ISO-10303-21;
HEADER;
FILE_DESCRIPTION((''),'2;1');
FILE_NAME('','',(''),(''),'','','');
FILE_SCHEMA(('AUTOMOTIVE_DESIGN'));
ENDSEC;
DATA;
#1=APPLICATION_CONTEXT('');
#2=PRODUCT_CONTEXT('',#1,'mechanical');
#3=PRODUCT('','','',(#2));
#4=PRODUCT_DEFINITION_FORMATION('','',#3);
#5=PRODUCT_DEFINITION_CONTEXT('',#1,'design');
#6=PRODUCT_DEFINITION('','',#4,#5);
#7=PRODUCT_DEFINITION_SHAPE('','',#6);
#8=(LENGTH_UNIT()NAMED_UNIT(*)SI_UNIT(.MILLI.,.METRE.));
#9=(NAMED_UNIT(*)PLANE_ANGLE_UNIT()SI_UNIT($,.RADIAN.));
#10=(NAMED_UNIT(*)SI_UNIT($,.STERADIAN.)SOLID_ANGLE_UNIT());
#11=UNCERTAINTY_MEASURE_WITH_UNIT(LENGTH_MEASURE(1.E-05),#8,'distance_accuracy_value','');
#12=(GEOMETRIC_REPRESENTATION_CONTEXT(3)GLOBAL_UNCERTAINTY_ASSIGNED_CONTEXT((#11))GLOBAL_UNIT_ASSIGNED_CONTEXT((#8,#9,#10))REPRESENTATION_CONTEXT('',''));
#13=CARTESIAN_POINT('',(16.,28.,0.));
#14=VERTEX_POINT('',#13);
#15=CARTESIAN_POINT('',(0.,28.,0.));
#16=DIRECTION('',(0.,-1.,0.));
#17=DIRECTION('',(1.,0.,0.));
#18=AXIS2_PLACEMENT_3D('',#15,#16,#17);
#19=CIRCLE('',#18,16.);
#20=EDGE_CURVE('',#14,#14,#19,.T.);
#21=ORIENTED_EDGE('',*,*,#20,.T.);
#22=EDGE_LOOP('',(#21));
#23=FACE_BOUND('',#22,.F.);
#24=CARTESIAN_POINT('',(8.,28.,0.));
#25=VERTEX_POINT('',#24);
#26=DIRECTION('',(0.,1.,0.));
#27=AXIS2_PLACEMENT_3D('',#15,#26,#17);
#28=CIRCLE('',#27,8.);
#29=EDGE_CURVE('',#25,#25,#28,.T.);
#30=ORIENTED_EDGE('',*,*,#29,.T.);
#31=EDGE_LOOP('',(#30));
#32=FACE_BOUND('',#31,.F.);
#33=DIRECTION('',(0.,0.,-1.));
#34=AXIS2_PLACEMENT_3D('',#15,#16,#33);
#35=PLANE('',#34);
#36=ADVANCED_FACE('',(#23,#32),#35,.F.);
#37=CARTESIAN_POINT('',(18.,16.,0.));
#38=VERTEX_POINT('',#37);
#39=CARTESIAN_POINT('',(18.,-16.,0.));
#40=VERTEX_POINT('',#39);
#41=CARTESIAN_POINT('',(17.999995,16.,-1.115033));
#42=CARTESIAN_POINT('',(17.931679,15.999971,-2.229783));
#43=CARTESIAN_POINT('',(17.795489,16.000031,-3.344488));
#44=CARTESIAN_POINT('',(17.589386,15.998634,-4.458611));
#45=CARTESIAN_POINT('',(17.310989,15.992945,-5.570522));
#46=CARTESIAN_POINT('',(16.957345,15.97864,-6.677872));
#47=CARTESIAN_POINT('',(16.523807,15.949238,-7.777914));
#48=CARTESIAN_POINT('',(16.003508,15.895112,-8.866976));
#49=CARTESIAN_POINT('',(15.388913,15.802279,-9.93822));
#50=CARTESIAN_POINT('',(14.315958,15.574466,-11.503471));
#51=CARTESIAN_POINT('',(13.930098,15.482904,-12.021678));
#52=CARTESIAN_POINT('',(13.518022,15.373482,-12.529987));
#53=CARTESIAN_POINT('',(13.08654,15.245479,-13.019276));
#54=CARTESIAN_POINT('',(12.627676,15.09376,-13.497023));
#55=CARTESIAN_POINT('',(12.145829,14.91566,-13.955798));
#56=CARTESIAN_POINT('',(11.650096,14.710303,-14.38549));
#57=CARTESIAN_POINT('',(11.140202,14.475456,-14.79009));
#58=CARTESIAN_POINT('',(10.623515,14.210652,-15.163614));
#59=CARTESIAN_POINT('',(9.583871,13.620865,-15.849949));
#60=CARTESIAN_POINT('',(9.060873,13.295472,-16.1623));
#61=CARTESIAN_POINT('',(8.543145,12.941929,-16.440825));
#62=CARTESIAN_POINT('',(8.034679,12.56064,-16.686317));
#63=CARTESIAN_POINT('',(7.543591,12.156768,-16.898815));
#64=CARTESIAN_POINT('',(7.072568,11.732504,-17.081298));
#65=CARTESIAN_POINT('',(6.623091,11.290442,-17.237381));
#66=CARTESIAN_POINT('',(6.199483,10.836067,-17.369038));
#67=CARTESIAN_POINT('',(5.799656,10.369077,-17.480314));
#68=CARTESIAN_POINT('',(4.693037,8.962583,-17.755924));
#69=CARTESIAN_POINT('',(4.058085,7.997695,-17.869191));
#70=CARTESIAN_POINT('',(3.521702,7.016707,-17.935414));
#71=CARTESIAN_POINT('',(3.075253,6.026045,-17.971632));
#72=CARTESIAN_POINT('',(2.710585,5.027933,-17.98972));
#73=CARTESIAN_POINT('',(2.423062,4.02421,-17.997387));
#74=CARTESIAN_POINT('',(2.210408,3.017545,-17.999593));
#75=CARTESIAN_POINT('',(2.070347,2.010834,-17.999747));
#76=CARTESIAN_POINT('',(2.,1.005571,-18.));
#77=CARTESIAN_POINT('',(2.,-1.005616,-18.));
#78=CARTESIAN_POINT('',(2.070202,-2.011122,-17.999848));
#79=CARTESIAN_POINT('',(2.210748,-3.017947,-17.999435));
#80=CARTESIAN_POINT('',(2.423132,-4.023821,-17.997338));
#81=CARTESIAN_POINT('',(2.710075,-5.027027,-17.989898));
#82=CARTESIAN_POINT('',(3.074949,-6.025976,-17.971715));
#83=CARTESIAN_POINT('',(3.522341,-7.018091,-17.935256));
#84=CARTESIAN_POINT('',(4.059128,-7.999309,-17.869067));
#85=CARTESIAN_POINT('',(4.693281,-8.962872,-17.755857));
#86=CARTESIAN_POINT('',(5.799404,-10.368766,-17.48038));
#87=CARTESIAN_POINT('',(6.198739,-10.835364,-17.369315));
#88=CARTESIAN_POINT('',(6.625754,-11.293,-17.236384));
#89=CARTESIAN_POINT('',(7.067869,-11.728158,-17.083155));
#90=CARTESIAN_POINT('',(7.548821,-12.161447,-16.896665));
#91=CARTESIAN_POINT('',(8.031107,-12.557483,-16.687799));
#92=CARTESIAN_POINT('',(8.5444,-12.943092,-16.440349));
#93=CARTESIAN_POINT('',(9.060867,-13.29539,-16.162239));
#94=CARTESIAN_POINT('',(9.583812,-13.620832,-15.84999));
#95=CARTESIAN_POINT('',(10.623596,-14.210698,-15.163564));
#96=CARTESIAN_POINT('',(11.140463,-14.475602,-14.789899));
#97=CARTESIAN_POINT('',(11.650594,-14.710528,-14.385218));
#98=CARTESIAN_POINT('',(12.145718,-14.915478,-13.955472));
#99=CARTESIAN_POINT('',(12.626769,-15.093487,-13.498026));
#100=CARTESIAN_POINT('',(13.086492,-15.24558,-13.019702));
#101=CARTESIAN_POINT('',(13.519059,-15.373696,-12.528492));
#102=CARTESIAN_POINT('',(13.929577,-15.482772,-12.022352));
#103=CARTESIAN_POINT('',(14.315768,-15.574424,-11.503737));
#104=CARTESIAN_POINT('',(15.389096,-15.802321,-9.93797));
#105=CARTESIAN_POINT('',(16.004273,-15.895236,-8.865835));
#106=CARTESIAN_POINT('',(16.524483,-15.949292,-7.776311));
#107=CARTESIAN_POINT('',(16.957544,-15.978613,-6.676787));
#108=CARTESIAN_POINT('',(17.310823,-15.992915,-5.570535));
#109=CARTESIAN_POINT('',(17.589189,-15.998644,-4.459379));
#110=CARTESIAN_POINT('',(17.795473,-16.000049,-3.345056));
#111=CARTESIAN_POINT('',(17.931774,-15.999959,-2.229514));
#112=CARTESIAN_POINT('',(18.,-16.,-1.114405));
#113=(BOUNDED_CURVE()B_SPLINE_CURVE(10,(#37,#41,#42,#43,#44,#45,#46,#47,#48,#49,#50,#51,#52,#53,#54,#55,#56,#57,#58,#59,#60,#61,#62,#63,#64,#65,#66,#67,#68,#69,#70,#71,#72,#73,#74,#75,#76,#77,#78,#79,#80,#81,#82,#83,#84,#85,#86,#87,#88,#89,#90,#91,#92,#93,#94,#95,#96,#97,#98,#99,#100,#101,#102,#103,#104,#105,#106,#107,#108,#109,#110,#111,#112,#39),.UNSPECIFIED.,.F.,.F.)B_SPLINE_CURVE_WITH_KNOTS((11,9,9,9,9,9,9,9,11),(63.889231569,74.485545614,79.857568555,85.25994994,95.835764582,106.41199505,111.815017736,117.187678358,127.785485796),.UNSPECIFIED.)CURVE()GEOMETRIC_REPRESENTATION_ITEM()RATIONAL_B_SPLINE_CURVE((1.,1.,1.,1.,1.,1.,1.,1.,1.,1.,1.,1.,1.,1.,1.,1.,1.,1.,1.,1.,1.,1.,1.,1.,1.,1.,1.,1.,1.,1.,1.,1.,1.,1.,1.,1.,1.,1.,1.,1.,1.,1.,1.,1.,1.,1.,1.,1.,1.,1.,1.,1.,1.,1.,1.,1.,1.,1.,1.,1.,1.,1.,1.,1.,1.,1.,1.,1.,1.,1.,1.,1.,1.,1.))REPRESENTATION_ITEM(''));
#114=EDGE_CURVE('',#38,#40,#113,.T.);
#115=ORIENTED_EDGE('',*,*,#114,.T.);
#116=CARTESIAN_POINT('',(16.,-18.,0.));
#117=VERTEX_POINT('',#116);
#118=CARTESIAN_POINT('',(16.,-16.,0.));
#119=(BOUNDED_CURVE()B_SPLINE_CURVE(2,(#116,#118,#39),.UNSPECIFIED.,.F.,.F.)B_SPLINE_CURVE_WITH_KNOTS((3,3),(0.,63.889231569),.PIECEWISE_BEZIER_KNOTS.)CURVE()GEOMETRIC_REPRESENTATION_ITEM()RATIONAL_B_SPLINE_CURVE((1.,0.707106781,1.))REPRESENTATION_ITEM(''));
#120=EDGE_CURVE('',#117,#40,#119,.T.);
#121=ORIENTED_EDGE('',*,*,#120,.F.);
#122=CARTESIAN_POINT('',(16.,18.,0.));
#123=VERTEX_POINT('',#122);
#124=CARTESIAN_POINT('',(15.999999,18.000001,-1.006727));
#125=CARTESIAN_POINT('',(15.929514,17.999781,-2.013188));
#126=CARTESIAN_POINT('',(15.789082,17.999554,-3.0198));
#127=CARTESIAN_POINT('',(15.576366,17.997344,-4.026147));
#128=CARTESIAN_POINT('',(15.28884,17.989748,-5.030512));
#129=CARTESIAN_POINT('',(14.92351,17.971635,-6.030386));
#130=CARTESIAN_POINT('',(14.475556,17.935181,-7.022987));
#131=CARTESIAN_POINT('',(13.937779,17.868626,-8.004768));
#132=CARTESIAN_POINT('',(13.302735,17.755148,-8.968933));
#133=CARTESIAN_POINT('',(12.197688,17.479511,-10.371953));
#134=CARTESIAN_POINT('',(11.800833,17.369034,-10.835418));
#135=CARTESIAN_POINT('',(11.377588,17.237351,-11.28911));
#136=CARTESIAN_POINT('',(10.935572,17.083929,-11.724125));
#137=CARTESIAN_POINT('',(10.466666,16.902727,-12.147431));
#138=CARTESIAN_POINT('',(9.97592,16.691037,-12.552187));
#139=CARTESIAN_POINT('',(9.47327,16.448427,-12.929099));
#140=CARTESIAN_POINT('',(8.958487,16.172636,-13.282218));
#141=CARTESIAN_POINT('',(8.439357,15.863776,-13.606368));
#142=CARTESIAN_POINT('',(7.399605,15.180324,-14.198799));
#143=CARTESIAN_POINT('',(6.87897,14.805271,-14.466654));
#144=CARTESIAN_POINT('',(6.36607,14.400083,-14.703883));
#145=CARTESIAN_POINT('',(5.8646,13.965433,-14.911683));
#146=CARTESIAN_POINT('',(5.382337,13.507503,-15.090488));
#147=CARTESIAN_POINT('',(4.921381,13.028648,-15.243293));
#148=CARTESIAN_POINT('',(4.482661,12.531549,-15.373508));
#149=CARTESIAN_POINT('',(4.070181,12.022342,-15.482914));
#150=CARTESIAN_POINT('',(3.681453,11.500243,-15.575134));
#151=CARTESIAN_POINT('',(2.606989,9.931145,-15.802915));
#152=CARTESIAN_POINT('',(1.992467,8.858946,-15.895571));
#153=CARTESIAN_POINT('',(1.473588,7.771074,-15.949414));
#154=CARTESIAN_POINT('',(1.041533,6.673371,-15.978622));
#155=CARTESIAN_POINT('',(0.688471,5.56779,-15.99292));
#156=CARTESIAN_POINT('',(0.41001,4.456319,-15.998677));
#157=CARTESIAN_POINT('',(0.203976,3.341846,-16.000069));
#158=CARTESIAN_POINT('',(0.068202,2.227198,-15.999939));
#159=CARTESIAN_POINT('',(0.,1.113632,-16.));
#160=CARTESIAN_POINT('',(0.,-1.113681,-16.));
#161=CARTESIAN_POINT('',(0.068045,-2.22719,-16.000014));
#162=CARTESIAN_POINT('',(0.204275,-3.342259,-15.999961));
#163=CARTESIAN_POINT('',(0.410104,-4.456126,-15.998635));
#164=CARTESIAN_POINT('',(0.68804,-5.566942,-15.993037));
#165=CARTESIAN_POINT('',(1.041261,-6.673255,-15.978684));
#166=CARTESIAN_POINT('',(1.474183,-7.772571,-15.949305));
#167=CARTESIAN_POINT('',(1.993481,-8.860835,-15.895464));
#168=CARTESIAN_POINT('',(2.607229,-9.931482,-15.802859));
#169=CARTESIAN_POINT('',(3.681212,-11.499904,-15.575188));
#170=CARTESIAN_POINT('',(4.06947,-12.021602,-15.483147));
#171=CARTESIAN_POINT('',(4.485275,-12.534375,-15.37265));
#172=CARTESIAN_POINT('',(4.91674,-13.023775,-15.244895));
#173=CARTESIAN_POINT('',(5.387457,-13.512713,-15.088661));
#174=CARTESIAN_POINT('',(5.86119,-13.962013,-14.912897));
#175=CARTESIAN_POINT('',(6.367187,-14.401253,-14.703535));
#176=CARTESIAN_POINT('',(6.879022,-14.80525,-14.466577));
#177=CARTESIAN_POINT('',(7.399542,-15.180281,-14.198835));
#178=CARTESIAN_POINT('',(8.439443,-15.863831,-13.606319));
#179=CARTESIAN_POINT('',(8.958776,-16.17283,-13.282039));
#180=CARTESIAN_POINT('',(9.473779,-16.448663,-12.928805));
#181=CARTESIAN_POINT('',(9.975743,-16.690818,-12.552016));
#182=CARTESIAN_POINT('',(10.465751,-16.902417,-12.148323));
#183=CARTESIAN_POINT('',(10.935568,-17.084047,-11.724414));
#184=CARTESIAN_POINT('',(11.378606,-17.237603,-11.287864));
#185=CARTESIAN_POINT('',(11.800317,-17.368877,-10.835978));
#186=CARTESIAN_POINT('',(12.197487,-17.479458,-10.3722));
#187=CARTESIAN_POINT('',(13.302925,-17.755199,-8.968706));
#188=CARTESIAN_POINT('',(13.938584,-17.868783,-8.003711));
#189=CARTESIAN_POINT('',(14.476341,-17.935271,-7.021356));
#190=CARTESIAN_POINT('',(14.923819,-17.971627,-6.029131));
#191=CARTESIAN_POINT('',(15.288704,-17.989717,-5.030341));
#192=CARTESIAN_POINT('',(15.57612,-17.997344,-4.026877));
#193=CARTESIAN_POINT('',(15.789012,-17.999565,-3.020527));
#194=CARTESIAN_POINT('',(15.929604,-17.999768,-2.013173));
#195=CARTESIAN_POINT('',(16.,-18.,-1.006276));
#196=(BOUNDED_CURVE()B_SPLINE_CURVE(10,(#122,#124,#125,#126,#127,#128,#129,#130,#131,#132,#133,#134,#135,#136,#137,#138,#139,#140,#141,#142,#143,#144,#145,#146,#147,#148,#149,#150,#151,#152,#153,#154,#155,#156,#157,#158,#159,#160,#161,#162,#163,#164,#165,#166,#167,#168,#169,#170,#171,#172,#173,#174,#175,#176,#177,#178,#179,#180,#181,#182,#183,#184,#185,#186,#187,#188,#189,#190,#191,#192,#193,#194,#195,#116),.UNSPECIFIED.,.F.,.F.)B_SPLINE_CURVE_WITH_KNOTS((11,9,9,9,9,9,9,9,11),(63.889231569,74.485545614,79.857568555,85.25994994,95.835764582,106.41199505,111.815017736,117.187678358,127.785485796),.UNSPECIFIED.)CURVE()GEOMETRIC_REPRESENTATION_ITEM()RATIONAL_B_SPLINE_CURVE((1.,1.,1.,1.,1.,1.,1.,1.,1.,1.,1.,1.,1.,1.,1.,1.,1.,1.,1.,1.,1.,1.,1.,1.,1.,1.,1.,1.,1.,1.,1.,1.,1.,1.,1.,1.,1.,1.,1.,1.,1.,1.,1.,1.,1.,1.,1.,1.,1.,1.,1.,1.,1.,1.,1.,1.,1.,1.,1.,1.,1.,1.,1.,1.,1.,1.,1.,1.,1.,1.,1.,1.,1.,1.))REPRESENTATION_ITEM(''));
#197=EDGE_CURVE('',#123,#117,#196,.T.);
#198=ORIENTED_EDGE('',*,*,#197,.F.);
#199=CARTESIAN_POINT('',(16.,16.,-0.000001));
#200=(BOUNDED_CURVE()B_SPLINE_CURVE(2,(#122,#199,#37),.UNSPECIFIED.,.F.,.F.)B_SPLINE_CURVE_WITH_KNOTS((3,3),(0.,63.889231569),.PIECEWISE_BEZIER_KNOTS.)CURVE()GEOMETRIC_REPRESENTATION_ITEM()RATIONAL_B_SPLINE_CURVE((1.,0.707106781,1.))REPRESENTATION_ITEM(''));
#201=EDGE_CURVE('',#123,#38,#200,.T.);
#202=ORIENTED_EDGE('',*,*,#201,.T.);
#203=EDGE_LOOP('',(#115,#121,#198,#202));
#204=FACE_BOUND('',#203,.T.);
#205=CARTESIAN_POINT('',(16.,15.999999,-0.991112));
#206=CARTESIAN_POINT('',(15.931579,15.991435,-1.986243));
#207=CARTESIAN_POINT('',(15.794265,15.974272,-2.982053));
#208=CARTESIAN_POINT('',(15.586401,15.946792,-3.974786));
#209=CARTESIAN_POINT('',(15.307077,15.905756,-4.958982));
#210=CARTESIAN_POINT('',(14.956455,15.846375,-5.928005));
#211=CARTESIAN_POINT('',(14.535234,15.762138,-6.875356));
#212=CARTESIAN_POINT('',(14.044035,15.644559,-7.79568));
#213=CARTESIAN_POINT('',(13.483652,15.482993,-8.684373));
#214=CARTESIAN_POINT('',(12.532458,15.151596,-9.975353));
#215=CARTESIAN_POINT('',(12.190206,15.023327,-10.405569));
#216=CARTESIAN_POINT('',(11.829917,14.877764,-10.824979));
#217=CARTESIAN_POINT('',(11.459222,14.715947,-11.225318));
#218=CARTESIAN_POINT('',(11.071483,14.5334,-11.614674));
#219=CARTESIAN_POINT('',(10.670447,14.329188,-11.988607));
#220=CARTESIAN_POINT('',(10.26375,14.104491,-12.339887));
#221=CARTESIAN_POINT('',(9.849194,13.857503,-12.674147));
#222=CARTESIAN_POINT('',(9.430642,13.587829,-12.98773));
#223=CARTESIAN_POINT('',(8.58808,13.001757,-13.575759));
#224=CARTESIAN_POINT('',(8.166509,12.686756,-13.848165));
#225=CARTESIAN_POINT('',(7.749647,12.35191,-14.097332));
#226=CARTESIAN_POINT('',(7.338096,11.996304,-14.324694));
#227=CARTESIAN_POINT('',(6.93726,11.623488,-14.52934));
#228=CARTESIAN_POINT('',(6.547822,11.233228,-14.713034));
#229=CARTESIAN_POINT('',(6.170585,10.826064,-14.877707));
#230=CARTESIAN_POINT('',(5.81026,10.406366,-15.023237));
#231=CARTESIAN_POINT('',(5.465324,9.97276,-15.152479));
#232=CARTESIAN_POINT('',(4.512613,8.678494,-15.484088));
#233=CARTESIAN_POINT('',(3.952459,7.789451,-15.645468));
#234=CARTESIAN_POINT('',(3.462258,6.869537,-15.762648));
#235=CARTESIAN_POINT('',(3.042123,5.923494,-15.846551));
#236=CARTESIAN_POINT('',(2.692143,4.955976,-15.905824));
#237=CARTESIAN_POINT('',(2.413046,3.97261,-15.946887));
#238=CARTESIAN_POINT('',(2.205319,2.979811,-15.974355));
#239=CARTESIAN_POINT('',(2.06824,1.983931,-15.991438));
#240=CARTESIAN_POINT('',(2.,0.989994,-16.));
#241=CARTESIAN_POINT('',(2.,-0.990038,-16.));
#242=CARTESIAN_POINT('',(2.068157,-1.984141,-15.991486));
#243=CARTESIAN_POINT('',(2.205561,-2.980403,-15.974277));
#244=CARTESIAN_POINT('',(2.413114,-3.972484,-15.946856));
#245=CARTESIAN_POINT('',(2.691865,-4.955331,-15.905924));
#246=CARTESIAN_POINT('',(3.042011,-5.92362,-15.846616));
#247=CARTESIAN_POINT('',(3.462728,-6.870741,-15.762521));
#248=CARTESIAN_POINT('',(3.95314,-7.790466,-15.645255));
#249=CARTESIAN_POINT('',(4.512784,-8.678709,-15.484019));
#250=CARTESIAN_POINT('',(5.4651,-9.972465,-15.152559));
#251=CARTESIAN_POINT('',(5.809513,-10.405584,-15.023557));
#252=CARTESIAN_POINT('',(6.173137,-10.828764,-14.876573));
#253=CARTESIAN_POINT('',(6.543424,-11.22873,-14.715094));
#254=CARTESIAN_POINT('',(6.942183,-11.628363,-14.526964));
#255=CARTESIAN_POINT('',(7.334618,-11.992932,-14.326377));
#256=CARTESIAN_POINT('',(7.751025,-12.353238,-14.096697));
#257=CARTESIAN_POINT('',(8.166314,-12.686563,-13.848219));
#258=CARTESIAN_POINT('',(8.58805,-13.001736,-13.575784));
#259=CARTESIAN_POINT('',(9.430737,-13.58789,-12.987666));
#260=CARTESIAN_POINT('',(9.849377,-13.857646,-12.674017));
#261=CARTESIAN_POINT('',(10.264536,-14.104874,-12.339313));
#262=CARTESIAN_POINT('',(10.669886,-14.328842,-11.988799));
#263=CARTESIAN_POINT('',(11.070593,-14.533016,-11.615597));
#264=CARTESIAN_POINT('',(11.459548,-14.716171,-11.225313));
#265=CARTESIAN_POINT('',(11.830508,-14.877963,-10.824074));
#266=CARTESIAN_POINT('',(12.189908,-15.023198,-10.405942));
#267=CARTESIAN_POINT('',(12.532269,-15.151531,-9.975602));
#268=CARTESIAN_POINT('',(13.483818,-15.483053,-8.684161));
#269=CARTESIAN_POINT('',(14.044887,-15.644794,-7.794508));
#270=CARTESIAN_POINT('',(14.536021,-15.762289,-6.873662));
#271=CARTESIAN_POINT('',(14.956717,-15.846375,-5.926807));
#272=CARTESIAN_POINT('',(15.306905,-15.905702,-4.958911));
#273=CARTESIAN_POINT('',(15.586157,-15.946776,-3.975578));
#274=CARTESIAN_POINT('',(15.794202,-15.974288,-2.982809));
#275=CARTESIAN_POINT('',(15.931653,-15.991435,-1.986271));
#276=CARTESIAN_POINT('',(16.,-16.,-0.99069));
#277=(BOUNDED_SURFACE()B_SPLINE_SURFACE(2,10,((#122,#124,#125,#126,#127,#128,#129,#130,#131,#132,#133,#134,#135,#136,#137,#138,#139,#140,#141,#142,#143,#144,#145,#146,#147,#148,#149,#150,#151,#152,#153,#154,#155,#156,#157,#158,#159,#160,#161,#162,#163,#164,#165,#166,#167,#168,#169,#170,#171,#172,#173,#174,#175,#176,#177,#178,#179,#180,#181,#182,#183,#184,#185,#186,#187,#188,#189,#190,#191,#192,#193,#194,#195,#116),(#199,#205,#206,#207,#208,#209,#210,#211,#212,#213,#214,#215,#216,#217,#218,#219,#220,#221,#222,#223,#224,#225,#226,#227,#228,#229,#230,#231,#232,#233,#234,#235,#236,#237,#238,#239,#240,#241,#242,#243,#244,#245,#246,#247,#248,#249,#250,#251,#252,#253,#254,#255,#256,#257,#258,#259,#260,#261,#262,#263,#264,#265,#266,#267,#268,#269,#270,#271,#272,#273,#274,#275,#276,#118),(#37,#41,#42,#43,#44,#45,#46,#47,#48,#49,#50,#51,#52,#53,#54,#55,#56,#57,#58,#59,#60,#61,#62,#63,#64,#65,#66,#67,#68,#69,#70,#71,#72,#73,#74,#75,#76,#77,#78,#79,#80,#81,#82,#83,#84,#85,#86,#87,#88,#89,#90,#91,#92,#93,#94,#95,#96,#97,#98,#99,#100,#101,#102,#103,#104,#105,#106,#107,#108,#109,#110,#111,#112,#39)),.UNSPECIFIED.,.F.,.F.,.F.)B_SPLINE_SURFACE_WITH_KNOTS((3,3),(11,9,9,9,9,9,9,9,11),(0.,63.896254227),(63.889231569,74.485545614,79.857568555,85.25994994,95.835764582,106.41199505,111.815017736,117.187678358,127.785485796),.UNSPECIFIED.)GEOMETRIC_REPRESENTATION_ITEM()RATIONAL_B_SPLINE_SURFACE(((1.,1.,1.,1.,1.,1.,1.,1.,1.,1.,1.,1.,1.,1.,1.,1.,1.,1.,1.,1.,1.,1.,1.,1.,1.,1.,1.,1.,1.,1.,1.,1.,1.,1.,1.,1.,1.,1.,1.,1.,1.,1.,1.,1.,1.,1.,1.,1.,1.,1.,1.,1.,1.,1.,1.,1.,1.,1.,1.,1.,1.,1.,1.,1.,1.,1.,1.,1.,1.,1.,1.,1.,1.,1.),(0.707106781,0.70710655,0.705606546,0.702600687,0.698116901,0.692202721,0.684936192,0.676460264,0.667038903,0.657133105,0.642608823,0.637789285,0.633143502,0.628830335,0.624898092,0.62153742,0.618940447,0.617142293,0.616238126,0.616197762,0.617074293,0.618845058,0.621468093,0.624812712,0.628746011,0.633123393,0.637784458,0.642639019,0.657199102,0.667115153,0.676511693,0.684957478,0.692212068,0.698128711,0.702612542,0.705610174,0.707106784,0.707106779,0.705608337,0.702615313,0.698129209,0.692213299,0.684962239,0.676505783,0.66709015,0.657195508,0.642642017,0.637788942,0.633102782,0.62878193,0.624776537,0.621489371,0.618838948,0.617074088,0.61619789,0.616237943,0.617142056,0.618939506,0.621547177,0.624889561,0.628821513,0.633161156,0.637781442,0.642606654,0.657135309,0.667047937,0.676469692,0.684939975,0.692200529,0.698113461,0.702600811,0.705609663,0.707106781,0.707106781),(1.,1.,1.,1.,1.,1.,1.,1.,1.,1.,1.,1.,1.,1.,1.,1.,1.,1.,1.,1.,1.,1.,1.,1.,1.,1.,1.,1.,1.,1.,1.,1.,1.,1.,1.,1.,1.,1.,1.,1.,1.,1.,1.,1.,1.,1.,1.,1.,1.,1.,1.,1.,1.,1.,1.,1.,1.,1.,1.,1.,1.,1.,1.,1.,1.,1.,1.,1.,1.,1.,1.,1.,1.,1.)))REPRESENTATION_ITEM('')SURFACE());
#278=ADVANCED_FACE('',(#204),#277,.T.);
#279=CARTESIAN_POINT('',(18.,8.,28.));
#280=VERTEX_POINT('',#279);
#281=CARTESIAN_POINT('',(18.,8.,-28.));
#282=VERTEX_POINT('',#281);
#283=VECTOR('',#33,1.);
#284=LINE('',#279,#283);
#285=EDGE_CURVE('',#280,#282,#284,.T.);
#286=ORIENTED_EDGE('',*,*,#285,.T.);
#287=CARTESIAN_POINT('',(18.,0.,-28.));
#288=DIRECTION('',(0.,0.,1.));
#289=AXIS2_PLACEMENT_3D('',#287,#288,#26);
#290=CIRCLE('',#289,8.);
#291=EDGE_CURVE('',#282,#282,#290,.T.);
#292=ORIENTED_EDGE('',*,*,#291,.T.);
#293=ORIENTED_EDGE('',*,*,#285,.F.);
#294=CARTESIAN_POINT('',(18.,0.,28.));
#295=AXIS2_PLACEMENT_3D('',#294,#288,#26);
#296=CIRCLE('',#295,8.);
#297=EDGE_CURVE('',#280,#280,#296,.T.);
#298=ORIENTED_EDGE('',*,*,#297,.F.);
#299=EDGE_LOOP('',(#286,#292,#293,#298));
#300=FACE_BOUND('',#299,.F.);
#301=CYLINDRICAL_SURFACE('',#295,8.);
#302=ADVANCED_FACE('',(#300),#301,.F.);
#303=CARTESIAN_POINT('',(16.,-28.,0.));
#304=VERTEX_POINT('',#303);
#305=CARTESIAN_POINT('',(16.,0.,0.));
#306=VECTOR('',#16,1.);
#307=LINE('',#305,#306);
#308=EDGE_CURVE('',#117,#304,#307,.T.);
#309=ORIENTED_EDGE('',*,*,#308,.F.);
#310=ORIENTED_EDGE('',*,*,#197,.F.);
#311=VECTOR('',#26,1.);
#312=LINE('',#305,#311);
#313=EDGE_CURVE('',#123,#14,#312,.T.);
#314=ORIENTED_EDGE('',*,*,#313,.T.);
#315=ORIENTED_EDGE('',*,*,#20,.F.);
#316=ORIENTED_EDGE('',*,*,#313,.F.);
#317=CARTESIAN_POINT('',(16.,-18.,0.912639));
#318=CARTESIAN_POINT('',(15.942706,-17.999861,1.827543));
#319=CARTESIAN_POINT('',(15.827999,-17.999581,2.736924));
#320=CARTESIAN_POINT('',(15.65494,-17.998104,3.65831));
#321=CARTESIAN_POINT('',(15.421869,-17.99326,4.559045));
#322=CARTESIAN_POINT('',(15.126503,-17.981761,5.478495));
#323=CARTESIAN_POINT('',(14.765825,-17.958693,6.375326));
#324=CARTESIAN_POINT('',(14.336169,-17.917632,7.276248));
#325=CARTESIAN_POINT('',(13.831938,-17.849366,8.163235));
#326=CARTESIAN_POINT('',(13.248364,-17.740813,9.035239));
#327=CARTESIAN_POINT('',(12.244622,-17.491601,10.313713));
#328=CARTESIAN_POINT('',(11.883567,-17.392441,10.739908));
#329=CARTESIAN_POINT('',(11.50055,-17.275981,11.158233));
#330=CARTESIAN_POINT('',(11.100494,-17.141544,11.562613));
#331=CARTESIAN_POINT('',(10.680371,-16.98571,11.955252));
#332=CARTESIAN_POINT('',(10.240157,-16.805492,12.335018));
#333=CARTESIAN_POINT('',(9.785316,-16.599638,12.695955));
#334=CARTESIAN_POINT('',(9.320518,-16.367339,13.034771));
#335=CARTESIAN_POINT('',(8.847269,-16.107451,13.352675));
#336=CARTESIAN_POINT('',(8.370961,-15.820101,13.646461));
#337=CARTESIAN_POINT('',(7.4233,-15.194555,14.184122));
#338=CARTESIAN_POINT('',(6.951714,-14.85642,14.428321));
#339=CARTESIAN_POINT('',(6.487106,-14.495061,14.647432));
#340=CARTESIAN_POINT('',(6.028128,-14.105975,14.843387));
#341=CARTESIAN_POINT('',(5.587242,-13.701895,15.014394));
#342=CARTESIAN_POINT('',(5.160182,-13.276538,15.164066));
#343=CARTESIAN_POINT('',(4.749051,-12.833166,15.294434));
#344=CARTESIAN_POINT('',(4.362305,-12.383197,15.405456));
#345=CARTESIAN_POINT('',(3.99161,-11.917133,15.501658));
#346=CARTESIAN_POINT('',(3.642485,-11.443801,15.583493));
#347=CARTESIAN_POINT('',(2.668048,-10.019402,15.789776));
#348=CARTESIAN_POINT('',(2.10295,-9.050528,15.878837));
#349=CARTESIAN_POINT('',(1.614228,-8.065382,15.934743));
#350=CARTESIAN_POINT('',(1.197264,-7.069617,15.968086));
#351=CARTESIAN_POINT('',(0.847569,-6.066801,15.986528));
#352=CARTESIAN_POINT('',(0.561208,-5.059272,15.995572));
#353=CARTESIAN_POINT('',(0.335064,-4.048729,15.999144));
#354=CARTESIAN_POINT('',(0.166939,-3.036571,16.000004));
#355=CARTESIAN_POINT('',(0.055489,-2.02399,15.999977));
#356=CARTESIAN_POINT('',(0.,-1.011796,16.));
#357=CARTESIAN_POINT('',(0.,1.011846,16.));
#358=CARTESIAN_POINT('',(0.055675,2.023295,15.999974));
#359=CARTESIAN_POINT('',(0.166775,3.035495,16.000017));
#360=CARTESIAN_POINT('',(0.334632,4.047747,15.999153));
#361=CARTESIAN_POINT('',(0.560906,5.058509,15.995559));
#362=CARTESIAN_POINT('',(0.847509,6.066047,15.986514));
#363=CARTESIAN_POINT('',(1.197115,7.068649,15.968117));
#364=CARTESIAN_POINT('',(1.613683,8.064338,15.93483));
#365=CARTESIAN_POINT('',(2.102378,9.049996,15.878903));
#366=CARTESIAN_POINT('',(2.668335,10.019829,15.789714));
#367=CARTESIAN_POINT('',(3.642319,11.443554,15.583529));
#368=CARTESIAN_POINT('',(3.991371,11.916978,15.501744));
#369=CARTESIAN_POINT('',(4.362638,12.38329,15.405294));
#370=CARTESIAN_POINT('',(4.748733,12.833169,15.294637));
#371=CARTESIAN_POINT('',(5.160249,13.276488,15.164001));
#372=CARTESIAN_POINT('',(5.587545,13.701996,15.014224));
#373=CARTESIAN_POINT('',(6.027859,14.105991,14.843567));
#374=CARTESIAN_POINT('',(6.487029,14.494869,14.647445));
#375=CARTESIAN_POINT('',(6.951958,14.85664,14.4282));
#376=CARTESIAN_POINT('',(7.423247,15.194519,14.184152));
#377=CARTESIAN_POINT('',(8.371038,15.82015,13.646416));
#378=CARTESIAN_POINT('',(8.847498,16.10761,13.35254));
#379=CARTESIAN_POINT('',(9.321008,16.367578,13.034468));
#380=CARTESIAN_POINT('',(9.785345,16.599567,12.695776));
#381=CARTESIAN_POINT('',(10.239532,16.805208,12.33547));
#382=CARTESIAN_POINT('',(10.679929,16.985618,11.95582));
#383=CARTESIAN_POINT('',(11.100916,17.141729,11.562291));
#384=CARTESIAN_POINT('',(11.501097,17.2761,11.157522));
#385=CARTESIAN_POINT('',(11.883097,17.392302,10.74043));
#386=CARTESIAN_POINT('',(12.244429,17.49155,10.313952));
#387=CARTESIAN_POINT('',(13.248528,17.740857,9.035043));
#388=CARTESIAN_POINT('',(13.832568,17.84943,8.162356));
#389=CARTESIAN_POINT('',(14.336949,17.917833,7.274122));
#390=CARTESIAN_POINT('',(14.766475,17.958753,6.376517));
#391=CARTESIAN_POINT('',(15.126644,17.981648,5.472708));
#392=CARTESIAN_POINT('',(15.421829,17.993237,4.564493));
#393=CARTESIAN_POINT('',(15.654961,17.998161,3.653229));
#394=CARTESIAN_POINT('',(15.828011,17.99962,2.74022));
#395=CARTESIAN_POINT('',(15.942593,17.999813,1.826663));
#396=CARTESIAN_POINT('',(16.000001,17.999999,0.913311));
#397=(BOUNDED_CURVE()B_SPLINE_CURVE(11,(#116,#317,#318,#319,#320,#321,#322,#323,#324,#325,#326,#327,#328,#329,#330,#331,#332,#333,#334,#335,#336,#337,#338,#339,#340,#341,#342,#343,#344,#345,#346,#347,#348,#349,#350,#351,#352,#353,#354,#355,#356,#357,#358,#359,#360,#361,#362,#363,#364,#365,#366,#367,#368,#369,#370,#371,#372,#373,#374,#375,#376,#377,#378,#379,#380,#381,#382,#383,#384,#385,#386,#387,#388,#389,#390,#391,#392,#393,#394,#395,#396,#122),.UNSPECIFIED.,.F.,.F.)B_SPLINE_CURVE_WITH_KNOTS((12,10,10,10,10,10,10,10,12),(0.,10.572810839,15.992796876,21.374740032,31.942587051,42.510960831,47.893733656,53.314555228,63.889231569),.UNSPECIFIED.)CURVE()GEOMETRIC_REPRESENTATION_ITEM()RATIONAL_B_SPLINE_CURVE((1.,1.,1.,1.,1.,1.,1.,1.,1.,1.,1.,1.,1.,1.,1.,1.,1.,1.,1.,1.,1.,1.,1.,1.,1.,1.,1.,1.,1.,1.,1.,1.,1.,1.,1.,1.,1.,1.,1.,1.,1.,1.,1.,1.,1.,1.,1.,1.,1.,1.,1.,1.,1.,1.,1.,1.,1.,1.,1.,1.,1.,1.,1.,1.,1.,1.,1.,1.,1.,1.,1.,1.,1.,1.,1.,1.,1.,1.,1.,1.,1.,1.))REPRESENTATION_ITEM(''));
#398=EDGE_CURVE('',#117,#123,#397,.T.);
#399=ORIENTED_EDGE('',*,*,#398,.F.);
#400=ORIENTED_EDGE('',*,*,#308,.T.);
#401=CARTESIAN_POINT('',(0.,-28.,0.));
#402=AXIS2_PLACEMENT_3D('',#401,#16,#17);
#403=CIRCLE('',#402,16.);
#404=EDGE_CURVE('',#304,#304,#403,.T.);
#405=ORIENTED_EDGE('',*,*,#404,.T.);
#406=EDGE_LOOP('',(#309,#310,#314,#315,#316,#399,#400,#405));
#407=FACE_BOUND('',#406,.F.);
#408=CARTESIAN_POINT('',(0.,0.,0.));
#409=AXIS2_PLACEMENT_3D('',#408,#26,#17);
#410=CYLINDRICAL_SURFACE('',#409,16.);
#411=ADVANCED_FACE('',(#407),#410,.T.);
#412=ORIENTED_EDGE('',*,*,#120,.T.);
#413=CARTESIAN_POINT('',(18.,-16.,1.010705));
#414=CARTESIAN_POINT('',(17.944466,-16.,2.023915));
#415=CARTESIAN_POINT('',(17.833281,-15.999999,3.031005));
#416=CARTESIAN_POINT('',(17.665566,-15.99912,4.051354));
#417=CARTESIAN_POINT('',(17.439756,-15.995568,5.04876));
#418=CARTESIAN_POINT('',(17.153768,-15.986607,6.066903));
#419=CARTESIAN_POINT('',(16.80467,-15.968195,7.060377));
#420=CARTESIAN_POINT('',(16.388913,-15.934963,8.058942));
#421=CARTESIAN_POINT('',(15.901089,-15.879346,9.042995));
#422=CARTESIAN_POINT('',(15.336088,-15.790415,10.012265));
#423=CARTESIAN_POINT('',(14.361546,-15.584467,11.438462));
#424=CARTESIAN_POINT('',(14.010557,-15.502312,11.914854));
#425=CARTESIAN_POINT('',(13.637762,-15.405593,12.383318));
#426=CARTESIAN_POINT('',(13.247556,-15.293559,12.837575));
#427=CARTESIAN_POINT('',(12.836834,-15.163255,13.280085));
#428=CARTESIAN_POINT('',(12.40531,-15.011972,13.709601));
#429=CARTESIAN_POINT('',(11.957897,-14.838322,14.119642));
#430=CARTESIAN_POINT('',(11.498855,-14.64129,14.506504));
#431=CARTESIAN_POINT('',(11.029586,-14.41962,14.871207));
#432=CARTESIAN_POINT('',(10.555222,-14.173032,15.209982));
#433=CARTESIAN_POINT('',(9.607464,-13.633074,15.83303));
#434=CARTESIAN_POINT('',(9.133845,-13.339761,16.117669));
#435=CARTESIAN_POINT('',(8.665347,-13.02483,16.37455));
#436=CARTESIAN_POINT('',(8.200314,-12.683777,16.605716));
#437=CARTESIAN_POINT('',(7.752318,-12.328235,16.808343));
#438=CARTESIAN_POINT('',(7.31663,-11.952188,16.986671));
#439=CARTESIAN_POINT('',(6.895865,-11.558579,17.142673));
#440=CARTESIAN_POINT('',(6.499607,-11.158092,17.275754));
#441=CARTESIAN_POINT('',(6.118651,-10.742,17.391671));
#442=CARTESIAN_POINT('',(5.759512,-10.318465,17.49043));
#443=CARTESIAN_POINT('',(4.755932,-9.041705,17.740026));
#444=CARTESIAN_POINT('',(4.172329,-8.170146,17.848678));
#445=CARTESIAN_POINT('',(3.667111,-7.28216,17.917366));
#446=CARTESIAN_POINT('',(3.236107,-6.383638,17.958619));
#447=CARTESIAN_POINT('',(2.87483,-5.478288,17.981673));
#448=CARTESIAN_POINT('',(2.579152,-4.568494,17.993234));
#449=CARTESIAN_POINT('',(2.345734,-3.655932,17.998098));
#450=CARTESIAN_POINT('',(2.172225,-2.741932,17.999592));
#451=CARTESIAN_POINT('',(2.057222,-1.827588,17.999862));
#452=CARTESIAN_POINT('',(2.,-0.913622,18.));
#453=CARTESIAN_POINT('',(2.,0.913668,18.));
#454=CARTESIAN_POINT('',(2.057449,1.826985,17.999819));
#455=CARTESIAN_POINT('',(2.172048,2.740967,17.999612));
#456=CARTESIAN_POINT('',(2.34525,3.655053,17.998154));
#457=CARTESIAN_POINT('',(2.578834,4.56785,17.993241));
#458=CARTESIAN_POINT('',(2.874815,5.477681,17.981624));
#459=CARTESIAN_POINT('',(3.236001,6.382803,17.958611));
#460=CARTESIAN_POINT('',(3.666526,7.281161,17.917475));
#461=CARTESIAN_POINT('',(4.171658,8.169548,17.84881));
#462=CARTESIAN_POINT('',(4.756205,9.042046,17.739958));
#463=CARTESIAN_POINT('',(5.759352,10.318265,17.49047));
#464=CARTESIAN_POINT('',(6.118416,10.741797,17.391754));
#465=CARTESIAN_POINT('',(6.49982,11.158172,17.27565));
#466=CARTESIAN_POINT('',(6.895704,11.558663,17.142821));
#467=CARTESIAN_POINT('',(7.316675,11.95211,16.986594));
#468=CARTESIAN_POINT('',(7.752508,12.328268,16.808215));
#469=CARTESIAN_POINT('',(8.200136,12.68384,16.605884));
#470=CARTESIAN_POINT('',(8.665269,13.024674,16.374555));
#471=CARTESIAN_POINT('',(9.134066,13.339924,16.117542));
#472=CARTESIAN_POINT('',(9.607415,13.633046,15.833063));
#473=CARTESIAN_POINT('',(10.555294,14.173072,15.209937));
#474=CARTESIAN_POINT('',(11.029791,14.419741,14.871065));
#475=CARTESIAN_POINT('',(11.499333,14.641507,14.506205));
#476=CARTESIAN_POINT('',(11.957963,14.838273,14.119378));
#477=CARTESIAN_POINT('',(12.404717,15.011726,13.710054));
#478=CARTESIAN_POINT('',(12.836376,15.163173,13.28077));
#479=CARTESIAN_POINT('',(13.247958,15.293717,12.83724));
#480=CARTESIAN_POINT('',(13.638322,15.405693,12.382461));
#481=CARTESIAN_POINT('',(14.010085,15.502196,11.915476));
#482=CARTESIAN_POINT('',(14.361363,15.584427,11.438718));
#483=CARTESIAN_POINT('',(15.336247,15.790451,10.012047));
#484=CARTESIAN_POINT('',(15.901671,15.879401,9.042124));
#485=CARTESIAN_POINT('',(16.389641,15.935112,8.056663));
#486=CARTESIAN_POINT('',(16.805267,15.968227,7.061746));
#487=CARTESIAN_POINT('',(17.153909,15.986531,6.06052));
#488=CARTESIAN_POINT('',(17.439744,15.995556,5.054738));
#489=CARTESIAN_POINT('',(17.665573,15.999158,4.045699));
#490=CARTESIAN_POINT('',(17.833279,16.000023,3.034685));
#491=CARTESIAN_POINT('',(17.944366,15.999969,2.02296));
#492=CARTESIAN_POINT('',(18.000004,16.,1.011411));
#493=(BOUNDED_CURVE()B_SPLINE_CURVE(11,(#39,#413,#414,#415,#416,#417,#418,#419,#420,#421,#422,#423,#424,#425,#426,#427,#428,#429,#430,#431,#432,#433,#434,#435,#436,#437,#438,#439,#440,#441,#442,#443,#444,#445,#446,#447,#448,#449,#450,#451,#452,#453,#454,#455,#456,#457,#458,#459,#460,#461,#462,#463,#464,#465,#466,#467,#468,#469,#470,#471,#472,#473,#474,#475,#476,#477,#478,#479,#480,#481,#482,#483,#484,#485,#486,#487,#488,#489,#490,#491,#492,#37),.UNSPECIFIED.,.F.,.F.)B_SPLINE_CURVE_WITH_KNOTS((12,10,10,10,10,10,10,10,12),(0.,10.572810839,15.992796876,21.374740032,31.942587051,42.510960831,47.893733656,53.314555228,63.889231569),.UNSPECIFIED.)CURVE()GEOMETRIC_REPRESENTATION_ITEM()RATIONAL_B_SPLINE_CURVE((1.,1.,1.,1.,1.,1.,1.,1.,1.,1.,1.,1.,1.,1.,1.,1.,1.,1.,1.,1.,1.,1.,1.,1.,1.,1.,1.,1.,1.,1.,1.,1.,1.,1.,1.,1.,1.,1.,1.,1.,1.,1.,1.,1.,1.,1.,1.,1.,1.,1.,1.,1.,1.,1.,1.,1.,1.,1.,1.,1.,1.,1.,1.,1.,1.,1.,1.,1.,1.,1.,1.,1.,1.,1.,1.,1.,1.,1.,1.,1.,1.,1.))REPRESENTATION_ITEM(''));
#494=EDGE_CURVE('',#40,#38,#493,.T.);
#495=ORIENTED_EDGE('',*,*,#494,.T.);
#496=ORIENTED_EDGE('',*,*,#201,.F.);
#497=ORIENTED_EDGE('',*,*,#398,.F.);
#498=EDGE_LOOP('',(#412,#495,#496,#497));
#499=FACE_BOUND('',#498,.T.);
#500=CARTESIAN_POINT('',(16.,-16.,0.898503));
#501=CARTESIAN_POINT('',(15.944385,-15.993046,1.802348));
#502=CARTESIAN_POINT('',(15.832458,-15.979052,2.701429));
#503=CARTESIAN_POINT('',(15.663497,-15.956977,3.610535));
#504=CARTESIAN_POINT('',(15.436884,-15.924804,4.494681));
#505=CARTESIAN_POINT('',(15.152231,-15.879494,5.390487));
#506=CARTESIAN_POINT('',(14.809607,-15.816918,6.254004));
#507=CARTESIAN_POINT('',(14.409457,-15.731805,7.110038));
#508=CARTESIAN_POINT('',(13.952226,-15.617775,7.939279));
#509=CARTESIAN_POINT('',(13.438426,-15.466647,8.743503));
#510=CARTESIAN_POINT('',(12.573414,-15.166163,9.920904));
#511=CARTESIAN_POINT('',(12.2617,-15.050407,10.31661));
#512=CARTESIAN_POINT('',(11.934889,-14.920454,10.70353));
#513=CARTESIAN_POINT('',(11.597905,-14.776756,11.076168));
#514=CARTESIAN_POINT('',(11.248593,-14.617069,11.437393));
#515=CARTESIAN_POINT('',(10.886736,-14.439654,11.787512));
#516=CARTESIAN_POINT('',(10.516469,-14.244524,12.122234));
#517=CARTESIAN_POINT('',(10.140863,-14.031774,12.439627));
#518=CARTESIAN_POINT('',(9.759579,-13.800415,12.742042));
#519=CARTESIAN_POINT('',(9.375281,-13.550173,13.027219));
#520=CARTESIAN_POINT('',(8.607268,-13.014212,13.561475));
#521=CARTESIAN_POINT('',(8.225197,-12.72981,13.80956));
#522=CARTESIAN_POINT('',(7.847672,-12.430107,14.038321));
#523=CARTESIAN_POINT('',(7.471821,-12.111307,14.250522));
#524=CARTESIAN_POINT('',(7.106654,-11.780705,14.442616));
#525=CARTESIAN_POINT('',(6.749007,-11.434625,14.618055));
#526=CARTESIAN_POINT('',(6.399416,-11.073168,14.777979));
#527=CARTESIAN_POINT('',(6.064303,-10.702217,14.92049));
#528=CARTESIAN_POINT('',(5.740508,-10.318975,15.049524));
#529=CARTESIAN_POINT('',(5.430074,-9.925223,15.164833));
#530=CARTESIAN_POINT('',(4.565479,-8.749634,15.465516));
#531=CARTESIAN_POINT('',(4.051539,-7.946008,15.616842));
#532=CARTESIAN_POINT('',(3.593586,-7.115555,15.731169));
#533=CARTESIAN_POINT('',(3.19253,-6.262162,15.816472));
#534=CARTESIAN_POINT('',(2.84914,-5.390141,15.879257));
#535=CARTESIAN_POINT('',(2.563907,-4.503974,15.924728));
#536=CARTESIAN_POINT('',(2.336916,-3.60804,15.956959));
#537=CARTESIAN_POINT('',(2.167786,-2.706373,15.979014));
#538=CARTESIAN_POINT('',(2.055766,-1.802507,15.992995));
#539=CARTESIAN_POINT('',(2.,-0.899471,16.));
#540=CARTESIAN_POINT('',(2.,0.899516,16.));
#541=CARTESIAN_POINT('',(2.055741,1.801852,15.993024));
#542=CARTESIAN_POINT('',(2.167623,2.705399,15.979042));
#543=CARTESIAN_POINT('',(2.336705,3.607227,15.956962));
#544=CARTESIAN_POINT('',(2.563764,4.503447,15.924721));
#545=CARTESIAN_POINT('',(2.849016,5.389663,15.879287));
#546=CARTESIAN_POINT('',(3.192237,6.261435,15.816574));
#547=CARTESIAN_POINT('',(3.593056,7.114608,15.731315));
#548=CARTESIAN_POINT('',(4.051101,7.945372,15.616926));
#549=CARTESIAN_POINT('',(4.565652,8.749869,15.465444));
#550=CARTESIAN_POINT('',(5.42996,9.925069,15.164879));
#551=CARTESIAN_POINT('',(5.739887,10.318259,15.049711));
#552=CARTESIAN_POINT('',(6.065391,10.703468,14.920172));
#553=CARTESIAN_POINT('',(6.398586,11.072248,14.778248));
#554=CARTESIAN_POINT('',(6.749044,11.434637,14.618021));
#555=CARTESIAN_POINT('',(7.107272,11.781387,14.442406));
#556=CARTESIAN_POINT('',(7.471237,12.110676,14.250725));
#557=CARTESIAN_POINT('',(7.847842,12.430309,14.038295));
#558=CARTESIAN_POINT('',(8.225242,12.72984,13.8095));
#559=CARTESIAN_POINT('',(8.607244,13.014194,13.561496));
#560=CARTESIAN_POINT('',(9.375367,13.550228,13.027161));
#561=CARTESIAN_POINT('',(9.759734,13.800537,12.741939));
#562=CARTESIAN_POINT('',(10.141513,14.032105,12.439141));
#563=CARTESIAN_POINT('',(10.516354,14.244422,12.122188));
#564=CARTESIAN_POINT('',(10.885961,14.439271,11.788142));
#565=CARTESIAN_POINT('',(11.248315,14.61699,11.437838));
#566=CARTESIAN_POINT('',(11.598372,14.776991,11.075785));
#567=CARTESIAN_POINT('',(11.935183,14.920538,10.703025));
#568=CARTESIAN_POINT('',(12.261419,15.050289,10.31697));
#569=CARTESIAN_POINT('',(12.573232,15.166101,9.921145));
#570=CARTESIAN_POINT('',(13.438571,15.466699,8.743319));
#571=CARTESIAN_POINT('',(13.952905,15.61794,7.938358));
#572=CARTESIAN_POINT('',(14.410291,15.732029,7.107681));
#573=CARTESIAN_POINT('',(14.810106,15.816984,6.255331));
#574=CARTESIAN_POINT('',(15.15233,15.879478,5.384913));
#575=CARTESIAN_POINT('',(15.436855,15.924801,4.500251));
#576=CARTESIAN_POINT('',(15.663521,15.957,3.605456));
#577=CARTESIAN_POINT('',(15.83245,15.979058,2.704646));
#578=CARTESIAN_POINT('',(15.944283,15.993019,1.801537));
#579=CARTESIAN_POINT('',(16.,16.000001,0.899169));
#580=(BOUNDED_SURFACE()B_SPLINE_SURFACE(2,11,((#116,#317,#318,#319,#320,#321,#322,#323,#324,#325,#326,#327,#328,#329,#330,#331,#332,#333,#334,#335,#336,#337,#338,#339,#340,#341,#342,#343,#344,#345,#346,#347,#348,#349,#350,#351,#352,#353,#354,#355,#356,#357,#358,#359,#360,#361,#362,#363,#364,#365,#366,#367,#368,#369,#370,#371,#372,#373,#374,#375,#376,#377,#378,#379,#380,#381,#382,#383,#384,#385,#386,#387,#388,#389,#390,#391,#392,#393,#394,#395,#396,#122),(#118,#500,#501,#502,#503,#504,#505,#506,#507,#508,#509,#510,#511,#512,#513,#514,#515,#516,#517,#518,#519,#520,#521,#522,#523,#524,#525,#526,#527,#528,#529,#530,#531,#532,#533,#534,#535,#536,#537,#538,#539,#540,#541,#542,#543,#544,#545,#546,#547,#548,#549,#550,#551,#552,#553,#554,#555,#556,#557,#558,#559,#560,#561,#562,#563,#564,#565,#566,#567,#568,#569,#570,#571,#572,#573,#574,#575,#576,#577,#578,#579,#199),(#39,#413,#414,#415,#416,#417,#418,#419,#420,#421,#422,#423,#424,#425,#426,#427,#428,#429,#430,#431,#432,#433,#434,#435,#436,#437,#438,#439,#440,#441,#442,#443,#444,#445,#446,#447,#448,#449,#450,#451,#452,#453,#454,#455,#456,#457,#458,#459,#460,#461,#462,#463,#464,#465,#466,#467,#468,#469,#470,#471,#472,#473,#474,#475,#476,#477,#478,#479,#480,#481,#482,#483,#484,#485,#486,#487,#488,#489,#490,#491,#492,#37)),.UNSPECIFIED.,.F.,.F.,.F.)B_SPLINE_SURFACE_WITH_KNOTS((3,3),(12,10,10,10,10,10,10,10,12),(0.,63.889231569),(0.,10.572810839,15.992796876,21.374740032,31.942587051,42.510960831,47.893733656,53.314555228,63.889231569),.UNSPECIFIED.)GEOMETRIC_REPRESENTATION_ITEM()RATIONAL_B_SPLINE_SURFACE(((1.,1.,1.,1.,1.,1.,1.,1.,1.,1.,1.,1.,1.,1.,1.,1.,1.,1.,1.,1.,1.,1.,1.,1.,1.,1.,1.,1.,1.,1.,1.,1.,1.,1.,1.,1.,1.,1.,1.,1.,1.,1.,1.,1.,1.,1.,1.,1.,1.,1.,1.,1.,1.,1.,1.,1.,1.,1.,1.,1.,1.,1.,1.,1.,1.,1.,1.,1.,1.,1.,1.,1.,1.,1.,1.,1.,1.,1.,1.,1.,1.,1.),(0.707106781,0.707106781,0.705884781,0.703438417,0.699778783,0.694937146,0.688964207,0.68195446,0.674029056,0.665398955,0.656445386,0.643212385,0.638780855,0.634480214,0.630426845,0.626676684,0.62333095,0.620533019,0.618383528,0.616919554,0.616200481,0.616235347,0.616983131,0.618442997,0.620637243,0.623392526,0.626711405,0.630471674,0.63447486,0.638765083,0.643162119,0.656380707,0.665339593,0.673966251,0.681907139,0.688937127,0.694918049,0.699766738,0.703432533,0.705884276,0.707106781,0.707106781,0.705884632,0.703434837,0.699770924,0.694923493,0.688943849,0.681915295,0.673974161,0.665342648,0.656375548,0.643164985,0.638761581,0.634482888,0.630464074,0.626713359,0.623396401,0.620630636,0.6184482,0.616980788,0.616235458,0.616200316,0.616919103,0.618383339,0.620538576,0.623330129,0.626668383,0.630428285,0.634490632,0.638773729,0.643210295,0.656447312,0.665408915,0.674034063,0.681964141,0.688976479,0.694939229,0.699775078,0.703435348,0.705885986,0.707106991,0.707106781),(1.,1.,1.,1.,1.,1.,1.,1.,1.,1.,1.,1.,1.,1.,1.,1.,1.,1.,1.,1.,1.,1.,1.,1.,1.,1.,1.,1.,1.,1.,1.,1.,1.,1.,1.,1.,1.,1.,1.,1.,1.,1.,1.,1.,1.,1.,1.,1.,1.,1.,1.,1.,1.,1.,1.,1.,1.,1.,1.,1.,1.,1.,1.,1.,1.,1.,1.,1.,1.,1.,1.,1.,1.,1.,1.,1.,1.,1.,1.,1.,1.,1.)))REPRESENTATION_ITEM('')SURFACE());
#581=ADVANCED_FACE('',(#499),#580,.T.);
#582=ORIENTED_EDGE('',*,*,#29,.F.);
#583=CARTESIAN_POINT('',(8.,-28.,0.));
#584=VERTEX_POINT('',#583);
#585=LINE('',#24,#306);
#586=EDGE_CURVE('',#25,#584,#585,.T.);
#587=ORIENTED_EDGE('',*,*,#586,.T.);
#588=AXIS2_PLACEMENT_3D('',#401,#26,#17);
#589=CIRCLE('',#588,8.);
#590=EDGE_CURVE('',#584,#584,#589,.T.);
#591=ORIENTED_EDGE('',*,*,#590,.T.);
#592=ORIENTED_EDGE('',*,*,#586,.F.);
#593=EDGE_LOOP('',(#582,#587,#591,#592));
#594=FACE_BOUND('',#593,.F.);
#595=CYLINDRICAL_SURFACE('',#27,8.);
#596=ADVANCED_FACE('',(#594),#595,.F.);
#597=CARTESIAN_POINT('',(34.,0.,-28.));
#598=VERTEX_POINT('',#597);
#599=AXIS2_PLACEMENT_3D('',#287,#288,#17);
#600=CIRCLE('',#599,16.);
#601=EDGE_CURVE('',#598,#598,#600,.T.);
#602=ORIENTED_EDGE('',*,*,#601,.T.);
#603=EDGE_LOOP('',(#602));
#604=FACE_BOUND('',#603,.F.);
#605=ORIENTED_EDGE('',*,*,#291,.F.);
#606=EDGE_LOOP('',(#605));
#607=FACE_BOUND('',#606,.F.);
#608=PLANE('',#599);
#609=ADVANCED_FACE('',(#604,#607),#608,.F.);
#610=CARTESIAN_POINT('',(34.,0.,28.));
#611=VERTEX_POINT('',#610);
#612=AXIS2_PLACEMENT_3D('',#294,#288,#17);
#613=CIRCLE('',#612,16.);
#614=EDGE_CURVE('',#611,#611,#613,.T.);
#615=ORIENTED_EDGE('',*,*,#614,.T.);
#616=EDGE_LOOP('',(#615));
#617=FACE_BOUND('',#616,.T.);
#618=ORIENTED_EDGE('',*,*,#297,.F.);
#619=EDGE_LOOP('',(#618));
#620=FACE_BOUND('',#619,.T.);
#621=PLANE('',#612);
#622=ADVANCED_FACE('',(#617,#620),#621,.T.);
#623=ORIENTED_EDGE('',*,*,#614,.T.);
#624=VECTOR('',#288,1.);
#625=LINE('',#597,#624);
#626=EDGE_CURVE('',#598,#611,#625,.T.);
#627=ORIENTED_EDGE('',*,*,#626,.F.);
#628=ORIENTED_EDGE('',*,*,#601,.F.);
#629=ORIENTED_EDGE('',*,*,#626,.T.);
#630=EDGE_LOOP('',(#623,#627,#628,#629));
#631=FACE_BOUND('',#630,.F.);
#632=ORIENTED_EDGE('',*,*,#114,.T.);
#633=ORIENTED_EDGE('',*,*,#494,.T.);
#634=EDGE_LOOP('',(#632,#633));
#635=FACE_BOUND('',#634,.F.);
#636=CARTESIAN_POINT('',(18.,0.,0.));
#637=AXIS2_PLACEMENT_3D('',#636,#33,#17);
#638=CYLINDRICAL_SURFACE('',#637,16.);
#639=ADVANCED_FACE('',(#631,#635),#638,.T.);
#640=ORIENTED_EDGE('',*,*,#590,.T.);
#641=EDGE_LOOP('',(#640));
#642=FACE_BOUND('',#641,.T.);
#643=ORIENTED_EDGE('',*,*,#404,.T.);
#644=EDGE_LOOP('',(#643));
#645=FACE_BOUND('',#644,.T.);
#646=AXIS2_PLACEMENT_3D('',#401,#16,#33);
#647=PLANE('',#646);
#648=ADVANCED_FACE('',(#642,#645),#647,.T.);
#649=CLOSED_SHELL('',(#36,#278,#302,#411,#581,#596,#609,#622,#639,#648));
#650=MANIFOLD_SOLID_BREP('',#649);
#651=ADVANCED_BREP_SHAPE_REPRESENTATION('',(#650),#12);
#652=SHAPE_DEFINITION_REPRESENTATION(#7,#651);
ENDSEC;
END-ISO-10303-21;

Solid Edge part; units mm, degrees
sketch "Sketch1" plane through (0, 0, 0) normal (0, -1, 0) x (1, 0, 0)
  circle A0 centre (0, 0) radius 16
extrude "ExtrudedProtrusion_1" add sketch "Sketch1" along normal mid plane 56
sketch "Sketch2" plane through (0, 0, 0) normal (0, 0, 1) x (1, 0, 0)
  circle A0 centre (18, 0) radius 16
extrude "ExtrudedProtrusion_2" add sketch "Sketch2" along normal mid plane 56
sketch "Sketch3" plane through (0, 28, 0) normal (0, 1, 0) x (1, 0, 0)
  circle A0 centre (0, 0) radius 8
extrude "ExtrudedCutout_1" cut sketch "Sketch3" along normal mid plane 203.9389
sketch "Sketch4" plane through (18, 0, 28) normal (0, 0, 1) x (0, 1, 0)
  circle A0 centre (0, 0) radius 8
extrude "ExtrudedCutout_2" cut sketch "Sketch4" along normal mid plane 249.3799
fillet "Round_1" radius 2 1 edges at (9, -13.2288, 13.2288)
